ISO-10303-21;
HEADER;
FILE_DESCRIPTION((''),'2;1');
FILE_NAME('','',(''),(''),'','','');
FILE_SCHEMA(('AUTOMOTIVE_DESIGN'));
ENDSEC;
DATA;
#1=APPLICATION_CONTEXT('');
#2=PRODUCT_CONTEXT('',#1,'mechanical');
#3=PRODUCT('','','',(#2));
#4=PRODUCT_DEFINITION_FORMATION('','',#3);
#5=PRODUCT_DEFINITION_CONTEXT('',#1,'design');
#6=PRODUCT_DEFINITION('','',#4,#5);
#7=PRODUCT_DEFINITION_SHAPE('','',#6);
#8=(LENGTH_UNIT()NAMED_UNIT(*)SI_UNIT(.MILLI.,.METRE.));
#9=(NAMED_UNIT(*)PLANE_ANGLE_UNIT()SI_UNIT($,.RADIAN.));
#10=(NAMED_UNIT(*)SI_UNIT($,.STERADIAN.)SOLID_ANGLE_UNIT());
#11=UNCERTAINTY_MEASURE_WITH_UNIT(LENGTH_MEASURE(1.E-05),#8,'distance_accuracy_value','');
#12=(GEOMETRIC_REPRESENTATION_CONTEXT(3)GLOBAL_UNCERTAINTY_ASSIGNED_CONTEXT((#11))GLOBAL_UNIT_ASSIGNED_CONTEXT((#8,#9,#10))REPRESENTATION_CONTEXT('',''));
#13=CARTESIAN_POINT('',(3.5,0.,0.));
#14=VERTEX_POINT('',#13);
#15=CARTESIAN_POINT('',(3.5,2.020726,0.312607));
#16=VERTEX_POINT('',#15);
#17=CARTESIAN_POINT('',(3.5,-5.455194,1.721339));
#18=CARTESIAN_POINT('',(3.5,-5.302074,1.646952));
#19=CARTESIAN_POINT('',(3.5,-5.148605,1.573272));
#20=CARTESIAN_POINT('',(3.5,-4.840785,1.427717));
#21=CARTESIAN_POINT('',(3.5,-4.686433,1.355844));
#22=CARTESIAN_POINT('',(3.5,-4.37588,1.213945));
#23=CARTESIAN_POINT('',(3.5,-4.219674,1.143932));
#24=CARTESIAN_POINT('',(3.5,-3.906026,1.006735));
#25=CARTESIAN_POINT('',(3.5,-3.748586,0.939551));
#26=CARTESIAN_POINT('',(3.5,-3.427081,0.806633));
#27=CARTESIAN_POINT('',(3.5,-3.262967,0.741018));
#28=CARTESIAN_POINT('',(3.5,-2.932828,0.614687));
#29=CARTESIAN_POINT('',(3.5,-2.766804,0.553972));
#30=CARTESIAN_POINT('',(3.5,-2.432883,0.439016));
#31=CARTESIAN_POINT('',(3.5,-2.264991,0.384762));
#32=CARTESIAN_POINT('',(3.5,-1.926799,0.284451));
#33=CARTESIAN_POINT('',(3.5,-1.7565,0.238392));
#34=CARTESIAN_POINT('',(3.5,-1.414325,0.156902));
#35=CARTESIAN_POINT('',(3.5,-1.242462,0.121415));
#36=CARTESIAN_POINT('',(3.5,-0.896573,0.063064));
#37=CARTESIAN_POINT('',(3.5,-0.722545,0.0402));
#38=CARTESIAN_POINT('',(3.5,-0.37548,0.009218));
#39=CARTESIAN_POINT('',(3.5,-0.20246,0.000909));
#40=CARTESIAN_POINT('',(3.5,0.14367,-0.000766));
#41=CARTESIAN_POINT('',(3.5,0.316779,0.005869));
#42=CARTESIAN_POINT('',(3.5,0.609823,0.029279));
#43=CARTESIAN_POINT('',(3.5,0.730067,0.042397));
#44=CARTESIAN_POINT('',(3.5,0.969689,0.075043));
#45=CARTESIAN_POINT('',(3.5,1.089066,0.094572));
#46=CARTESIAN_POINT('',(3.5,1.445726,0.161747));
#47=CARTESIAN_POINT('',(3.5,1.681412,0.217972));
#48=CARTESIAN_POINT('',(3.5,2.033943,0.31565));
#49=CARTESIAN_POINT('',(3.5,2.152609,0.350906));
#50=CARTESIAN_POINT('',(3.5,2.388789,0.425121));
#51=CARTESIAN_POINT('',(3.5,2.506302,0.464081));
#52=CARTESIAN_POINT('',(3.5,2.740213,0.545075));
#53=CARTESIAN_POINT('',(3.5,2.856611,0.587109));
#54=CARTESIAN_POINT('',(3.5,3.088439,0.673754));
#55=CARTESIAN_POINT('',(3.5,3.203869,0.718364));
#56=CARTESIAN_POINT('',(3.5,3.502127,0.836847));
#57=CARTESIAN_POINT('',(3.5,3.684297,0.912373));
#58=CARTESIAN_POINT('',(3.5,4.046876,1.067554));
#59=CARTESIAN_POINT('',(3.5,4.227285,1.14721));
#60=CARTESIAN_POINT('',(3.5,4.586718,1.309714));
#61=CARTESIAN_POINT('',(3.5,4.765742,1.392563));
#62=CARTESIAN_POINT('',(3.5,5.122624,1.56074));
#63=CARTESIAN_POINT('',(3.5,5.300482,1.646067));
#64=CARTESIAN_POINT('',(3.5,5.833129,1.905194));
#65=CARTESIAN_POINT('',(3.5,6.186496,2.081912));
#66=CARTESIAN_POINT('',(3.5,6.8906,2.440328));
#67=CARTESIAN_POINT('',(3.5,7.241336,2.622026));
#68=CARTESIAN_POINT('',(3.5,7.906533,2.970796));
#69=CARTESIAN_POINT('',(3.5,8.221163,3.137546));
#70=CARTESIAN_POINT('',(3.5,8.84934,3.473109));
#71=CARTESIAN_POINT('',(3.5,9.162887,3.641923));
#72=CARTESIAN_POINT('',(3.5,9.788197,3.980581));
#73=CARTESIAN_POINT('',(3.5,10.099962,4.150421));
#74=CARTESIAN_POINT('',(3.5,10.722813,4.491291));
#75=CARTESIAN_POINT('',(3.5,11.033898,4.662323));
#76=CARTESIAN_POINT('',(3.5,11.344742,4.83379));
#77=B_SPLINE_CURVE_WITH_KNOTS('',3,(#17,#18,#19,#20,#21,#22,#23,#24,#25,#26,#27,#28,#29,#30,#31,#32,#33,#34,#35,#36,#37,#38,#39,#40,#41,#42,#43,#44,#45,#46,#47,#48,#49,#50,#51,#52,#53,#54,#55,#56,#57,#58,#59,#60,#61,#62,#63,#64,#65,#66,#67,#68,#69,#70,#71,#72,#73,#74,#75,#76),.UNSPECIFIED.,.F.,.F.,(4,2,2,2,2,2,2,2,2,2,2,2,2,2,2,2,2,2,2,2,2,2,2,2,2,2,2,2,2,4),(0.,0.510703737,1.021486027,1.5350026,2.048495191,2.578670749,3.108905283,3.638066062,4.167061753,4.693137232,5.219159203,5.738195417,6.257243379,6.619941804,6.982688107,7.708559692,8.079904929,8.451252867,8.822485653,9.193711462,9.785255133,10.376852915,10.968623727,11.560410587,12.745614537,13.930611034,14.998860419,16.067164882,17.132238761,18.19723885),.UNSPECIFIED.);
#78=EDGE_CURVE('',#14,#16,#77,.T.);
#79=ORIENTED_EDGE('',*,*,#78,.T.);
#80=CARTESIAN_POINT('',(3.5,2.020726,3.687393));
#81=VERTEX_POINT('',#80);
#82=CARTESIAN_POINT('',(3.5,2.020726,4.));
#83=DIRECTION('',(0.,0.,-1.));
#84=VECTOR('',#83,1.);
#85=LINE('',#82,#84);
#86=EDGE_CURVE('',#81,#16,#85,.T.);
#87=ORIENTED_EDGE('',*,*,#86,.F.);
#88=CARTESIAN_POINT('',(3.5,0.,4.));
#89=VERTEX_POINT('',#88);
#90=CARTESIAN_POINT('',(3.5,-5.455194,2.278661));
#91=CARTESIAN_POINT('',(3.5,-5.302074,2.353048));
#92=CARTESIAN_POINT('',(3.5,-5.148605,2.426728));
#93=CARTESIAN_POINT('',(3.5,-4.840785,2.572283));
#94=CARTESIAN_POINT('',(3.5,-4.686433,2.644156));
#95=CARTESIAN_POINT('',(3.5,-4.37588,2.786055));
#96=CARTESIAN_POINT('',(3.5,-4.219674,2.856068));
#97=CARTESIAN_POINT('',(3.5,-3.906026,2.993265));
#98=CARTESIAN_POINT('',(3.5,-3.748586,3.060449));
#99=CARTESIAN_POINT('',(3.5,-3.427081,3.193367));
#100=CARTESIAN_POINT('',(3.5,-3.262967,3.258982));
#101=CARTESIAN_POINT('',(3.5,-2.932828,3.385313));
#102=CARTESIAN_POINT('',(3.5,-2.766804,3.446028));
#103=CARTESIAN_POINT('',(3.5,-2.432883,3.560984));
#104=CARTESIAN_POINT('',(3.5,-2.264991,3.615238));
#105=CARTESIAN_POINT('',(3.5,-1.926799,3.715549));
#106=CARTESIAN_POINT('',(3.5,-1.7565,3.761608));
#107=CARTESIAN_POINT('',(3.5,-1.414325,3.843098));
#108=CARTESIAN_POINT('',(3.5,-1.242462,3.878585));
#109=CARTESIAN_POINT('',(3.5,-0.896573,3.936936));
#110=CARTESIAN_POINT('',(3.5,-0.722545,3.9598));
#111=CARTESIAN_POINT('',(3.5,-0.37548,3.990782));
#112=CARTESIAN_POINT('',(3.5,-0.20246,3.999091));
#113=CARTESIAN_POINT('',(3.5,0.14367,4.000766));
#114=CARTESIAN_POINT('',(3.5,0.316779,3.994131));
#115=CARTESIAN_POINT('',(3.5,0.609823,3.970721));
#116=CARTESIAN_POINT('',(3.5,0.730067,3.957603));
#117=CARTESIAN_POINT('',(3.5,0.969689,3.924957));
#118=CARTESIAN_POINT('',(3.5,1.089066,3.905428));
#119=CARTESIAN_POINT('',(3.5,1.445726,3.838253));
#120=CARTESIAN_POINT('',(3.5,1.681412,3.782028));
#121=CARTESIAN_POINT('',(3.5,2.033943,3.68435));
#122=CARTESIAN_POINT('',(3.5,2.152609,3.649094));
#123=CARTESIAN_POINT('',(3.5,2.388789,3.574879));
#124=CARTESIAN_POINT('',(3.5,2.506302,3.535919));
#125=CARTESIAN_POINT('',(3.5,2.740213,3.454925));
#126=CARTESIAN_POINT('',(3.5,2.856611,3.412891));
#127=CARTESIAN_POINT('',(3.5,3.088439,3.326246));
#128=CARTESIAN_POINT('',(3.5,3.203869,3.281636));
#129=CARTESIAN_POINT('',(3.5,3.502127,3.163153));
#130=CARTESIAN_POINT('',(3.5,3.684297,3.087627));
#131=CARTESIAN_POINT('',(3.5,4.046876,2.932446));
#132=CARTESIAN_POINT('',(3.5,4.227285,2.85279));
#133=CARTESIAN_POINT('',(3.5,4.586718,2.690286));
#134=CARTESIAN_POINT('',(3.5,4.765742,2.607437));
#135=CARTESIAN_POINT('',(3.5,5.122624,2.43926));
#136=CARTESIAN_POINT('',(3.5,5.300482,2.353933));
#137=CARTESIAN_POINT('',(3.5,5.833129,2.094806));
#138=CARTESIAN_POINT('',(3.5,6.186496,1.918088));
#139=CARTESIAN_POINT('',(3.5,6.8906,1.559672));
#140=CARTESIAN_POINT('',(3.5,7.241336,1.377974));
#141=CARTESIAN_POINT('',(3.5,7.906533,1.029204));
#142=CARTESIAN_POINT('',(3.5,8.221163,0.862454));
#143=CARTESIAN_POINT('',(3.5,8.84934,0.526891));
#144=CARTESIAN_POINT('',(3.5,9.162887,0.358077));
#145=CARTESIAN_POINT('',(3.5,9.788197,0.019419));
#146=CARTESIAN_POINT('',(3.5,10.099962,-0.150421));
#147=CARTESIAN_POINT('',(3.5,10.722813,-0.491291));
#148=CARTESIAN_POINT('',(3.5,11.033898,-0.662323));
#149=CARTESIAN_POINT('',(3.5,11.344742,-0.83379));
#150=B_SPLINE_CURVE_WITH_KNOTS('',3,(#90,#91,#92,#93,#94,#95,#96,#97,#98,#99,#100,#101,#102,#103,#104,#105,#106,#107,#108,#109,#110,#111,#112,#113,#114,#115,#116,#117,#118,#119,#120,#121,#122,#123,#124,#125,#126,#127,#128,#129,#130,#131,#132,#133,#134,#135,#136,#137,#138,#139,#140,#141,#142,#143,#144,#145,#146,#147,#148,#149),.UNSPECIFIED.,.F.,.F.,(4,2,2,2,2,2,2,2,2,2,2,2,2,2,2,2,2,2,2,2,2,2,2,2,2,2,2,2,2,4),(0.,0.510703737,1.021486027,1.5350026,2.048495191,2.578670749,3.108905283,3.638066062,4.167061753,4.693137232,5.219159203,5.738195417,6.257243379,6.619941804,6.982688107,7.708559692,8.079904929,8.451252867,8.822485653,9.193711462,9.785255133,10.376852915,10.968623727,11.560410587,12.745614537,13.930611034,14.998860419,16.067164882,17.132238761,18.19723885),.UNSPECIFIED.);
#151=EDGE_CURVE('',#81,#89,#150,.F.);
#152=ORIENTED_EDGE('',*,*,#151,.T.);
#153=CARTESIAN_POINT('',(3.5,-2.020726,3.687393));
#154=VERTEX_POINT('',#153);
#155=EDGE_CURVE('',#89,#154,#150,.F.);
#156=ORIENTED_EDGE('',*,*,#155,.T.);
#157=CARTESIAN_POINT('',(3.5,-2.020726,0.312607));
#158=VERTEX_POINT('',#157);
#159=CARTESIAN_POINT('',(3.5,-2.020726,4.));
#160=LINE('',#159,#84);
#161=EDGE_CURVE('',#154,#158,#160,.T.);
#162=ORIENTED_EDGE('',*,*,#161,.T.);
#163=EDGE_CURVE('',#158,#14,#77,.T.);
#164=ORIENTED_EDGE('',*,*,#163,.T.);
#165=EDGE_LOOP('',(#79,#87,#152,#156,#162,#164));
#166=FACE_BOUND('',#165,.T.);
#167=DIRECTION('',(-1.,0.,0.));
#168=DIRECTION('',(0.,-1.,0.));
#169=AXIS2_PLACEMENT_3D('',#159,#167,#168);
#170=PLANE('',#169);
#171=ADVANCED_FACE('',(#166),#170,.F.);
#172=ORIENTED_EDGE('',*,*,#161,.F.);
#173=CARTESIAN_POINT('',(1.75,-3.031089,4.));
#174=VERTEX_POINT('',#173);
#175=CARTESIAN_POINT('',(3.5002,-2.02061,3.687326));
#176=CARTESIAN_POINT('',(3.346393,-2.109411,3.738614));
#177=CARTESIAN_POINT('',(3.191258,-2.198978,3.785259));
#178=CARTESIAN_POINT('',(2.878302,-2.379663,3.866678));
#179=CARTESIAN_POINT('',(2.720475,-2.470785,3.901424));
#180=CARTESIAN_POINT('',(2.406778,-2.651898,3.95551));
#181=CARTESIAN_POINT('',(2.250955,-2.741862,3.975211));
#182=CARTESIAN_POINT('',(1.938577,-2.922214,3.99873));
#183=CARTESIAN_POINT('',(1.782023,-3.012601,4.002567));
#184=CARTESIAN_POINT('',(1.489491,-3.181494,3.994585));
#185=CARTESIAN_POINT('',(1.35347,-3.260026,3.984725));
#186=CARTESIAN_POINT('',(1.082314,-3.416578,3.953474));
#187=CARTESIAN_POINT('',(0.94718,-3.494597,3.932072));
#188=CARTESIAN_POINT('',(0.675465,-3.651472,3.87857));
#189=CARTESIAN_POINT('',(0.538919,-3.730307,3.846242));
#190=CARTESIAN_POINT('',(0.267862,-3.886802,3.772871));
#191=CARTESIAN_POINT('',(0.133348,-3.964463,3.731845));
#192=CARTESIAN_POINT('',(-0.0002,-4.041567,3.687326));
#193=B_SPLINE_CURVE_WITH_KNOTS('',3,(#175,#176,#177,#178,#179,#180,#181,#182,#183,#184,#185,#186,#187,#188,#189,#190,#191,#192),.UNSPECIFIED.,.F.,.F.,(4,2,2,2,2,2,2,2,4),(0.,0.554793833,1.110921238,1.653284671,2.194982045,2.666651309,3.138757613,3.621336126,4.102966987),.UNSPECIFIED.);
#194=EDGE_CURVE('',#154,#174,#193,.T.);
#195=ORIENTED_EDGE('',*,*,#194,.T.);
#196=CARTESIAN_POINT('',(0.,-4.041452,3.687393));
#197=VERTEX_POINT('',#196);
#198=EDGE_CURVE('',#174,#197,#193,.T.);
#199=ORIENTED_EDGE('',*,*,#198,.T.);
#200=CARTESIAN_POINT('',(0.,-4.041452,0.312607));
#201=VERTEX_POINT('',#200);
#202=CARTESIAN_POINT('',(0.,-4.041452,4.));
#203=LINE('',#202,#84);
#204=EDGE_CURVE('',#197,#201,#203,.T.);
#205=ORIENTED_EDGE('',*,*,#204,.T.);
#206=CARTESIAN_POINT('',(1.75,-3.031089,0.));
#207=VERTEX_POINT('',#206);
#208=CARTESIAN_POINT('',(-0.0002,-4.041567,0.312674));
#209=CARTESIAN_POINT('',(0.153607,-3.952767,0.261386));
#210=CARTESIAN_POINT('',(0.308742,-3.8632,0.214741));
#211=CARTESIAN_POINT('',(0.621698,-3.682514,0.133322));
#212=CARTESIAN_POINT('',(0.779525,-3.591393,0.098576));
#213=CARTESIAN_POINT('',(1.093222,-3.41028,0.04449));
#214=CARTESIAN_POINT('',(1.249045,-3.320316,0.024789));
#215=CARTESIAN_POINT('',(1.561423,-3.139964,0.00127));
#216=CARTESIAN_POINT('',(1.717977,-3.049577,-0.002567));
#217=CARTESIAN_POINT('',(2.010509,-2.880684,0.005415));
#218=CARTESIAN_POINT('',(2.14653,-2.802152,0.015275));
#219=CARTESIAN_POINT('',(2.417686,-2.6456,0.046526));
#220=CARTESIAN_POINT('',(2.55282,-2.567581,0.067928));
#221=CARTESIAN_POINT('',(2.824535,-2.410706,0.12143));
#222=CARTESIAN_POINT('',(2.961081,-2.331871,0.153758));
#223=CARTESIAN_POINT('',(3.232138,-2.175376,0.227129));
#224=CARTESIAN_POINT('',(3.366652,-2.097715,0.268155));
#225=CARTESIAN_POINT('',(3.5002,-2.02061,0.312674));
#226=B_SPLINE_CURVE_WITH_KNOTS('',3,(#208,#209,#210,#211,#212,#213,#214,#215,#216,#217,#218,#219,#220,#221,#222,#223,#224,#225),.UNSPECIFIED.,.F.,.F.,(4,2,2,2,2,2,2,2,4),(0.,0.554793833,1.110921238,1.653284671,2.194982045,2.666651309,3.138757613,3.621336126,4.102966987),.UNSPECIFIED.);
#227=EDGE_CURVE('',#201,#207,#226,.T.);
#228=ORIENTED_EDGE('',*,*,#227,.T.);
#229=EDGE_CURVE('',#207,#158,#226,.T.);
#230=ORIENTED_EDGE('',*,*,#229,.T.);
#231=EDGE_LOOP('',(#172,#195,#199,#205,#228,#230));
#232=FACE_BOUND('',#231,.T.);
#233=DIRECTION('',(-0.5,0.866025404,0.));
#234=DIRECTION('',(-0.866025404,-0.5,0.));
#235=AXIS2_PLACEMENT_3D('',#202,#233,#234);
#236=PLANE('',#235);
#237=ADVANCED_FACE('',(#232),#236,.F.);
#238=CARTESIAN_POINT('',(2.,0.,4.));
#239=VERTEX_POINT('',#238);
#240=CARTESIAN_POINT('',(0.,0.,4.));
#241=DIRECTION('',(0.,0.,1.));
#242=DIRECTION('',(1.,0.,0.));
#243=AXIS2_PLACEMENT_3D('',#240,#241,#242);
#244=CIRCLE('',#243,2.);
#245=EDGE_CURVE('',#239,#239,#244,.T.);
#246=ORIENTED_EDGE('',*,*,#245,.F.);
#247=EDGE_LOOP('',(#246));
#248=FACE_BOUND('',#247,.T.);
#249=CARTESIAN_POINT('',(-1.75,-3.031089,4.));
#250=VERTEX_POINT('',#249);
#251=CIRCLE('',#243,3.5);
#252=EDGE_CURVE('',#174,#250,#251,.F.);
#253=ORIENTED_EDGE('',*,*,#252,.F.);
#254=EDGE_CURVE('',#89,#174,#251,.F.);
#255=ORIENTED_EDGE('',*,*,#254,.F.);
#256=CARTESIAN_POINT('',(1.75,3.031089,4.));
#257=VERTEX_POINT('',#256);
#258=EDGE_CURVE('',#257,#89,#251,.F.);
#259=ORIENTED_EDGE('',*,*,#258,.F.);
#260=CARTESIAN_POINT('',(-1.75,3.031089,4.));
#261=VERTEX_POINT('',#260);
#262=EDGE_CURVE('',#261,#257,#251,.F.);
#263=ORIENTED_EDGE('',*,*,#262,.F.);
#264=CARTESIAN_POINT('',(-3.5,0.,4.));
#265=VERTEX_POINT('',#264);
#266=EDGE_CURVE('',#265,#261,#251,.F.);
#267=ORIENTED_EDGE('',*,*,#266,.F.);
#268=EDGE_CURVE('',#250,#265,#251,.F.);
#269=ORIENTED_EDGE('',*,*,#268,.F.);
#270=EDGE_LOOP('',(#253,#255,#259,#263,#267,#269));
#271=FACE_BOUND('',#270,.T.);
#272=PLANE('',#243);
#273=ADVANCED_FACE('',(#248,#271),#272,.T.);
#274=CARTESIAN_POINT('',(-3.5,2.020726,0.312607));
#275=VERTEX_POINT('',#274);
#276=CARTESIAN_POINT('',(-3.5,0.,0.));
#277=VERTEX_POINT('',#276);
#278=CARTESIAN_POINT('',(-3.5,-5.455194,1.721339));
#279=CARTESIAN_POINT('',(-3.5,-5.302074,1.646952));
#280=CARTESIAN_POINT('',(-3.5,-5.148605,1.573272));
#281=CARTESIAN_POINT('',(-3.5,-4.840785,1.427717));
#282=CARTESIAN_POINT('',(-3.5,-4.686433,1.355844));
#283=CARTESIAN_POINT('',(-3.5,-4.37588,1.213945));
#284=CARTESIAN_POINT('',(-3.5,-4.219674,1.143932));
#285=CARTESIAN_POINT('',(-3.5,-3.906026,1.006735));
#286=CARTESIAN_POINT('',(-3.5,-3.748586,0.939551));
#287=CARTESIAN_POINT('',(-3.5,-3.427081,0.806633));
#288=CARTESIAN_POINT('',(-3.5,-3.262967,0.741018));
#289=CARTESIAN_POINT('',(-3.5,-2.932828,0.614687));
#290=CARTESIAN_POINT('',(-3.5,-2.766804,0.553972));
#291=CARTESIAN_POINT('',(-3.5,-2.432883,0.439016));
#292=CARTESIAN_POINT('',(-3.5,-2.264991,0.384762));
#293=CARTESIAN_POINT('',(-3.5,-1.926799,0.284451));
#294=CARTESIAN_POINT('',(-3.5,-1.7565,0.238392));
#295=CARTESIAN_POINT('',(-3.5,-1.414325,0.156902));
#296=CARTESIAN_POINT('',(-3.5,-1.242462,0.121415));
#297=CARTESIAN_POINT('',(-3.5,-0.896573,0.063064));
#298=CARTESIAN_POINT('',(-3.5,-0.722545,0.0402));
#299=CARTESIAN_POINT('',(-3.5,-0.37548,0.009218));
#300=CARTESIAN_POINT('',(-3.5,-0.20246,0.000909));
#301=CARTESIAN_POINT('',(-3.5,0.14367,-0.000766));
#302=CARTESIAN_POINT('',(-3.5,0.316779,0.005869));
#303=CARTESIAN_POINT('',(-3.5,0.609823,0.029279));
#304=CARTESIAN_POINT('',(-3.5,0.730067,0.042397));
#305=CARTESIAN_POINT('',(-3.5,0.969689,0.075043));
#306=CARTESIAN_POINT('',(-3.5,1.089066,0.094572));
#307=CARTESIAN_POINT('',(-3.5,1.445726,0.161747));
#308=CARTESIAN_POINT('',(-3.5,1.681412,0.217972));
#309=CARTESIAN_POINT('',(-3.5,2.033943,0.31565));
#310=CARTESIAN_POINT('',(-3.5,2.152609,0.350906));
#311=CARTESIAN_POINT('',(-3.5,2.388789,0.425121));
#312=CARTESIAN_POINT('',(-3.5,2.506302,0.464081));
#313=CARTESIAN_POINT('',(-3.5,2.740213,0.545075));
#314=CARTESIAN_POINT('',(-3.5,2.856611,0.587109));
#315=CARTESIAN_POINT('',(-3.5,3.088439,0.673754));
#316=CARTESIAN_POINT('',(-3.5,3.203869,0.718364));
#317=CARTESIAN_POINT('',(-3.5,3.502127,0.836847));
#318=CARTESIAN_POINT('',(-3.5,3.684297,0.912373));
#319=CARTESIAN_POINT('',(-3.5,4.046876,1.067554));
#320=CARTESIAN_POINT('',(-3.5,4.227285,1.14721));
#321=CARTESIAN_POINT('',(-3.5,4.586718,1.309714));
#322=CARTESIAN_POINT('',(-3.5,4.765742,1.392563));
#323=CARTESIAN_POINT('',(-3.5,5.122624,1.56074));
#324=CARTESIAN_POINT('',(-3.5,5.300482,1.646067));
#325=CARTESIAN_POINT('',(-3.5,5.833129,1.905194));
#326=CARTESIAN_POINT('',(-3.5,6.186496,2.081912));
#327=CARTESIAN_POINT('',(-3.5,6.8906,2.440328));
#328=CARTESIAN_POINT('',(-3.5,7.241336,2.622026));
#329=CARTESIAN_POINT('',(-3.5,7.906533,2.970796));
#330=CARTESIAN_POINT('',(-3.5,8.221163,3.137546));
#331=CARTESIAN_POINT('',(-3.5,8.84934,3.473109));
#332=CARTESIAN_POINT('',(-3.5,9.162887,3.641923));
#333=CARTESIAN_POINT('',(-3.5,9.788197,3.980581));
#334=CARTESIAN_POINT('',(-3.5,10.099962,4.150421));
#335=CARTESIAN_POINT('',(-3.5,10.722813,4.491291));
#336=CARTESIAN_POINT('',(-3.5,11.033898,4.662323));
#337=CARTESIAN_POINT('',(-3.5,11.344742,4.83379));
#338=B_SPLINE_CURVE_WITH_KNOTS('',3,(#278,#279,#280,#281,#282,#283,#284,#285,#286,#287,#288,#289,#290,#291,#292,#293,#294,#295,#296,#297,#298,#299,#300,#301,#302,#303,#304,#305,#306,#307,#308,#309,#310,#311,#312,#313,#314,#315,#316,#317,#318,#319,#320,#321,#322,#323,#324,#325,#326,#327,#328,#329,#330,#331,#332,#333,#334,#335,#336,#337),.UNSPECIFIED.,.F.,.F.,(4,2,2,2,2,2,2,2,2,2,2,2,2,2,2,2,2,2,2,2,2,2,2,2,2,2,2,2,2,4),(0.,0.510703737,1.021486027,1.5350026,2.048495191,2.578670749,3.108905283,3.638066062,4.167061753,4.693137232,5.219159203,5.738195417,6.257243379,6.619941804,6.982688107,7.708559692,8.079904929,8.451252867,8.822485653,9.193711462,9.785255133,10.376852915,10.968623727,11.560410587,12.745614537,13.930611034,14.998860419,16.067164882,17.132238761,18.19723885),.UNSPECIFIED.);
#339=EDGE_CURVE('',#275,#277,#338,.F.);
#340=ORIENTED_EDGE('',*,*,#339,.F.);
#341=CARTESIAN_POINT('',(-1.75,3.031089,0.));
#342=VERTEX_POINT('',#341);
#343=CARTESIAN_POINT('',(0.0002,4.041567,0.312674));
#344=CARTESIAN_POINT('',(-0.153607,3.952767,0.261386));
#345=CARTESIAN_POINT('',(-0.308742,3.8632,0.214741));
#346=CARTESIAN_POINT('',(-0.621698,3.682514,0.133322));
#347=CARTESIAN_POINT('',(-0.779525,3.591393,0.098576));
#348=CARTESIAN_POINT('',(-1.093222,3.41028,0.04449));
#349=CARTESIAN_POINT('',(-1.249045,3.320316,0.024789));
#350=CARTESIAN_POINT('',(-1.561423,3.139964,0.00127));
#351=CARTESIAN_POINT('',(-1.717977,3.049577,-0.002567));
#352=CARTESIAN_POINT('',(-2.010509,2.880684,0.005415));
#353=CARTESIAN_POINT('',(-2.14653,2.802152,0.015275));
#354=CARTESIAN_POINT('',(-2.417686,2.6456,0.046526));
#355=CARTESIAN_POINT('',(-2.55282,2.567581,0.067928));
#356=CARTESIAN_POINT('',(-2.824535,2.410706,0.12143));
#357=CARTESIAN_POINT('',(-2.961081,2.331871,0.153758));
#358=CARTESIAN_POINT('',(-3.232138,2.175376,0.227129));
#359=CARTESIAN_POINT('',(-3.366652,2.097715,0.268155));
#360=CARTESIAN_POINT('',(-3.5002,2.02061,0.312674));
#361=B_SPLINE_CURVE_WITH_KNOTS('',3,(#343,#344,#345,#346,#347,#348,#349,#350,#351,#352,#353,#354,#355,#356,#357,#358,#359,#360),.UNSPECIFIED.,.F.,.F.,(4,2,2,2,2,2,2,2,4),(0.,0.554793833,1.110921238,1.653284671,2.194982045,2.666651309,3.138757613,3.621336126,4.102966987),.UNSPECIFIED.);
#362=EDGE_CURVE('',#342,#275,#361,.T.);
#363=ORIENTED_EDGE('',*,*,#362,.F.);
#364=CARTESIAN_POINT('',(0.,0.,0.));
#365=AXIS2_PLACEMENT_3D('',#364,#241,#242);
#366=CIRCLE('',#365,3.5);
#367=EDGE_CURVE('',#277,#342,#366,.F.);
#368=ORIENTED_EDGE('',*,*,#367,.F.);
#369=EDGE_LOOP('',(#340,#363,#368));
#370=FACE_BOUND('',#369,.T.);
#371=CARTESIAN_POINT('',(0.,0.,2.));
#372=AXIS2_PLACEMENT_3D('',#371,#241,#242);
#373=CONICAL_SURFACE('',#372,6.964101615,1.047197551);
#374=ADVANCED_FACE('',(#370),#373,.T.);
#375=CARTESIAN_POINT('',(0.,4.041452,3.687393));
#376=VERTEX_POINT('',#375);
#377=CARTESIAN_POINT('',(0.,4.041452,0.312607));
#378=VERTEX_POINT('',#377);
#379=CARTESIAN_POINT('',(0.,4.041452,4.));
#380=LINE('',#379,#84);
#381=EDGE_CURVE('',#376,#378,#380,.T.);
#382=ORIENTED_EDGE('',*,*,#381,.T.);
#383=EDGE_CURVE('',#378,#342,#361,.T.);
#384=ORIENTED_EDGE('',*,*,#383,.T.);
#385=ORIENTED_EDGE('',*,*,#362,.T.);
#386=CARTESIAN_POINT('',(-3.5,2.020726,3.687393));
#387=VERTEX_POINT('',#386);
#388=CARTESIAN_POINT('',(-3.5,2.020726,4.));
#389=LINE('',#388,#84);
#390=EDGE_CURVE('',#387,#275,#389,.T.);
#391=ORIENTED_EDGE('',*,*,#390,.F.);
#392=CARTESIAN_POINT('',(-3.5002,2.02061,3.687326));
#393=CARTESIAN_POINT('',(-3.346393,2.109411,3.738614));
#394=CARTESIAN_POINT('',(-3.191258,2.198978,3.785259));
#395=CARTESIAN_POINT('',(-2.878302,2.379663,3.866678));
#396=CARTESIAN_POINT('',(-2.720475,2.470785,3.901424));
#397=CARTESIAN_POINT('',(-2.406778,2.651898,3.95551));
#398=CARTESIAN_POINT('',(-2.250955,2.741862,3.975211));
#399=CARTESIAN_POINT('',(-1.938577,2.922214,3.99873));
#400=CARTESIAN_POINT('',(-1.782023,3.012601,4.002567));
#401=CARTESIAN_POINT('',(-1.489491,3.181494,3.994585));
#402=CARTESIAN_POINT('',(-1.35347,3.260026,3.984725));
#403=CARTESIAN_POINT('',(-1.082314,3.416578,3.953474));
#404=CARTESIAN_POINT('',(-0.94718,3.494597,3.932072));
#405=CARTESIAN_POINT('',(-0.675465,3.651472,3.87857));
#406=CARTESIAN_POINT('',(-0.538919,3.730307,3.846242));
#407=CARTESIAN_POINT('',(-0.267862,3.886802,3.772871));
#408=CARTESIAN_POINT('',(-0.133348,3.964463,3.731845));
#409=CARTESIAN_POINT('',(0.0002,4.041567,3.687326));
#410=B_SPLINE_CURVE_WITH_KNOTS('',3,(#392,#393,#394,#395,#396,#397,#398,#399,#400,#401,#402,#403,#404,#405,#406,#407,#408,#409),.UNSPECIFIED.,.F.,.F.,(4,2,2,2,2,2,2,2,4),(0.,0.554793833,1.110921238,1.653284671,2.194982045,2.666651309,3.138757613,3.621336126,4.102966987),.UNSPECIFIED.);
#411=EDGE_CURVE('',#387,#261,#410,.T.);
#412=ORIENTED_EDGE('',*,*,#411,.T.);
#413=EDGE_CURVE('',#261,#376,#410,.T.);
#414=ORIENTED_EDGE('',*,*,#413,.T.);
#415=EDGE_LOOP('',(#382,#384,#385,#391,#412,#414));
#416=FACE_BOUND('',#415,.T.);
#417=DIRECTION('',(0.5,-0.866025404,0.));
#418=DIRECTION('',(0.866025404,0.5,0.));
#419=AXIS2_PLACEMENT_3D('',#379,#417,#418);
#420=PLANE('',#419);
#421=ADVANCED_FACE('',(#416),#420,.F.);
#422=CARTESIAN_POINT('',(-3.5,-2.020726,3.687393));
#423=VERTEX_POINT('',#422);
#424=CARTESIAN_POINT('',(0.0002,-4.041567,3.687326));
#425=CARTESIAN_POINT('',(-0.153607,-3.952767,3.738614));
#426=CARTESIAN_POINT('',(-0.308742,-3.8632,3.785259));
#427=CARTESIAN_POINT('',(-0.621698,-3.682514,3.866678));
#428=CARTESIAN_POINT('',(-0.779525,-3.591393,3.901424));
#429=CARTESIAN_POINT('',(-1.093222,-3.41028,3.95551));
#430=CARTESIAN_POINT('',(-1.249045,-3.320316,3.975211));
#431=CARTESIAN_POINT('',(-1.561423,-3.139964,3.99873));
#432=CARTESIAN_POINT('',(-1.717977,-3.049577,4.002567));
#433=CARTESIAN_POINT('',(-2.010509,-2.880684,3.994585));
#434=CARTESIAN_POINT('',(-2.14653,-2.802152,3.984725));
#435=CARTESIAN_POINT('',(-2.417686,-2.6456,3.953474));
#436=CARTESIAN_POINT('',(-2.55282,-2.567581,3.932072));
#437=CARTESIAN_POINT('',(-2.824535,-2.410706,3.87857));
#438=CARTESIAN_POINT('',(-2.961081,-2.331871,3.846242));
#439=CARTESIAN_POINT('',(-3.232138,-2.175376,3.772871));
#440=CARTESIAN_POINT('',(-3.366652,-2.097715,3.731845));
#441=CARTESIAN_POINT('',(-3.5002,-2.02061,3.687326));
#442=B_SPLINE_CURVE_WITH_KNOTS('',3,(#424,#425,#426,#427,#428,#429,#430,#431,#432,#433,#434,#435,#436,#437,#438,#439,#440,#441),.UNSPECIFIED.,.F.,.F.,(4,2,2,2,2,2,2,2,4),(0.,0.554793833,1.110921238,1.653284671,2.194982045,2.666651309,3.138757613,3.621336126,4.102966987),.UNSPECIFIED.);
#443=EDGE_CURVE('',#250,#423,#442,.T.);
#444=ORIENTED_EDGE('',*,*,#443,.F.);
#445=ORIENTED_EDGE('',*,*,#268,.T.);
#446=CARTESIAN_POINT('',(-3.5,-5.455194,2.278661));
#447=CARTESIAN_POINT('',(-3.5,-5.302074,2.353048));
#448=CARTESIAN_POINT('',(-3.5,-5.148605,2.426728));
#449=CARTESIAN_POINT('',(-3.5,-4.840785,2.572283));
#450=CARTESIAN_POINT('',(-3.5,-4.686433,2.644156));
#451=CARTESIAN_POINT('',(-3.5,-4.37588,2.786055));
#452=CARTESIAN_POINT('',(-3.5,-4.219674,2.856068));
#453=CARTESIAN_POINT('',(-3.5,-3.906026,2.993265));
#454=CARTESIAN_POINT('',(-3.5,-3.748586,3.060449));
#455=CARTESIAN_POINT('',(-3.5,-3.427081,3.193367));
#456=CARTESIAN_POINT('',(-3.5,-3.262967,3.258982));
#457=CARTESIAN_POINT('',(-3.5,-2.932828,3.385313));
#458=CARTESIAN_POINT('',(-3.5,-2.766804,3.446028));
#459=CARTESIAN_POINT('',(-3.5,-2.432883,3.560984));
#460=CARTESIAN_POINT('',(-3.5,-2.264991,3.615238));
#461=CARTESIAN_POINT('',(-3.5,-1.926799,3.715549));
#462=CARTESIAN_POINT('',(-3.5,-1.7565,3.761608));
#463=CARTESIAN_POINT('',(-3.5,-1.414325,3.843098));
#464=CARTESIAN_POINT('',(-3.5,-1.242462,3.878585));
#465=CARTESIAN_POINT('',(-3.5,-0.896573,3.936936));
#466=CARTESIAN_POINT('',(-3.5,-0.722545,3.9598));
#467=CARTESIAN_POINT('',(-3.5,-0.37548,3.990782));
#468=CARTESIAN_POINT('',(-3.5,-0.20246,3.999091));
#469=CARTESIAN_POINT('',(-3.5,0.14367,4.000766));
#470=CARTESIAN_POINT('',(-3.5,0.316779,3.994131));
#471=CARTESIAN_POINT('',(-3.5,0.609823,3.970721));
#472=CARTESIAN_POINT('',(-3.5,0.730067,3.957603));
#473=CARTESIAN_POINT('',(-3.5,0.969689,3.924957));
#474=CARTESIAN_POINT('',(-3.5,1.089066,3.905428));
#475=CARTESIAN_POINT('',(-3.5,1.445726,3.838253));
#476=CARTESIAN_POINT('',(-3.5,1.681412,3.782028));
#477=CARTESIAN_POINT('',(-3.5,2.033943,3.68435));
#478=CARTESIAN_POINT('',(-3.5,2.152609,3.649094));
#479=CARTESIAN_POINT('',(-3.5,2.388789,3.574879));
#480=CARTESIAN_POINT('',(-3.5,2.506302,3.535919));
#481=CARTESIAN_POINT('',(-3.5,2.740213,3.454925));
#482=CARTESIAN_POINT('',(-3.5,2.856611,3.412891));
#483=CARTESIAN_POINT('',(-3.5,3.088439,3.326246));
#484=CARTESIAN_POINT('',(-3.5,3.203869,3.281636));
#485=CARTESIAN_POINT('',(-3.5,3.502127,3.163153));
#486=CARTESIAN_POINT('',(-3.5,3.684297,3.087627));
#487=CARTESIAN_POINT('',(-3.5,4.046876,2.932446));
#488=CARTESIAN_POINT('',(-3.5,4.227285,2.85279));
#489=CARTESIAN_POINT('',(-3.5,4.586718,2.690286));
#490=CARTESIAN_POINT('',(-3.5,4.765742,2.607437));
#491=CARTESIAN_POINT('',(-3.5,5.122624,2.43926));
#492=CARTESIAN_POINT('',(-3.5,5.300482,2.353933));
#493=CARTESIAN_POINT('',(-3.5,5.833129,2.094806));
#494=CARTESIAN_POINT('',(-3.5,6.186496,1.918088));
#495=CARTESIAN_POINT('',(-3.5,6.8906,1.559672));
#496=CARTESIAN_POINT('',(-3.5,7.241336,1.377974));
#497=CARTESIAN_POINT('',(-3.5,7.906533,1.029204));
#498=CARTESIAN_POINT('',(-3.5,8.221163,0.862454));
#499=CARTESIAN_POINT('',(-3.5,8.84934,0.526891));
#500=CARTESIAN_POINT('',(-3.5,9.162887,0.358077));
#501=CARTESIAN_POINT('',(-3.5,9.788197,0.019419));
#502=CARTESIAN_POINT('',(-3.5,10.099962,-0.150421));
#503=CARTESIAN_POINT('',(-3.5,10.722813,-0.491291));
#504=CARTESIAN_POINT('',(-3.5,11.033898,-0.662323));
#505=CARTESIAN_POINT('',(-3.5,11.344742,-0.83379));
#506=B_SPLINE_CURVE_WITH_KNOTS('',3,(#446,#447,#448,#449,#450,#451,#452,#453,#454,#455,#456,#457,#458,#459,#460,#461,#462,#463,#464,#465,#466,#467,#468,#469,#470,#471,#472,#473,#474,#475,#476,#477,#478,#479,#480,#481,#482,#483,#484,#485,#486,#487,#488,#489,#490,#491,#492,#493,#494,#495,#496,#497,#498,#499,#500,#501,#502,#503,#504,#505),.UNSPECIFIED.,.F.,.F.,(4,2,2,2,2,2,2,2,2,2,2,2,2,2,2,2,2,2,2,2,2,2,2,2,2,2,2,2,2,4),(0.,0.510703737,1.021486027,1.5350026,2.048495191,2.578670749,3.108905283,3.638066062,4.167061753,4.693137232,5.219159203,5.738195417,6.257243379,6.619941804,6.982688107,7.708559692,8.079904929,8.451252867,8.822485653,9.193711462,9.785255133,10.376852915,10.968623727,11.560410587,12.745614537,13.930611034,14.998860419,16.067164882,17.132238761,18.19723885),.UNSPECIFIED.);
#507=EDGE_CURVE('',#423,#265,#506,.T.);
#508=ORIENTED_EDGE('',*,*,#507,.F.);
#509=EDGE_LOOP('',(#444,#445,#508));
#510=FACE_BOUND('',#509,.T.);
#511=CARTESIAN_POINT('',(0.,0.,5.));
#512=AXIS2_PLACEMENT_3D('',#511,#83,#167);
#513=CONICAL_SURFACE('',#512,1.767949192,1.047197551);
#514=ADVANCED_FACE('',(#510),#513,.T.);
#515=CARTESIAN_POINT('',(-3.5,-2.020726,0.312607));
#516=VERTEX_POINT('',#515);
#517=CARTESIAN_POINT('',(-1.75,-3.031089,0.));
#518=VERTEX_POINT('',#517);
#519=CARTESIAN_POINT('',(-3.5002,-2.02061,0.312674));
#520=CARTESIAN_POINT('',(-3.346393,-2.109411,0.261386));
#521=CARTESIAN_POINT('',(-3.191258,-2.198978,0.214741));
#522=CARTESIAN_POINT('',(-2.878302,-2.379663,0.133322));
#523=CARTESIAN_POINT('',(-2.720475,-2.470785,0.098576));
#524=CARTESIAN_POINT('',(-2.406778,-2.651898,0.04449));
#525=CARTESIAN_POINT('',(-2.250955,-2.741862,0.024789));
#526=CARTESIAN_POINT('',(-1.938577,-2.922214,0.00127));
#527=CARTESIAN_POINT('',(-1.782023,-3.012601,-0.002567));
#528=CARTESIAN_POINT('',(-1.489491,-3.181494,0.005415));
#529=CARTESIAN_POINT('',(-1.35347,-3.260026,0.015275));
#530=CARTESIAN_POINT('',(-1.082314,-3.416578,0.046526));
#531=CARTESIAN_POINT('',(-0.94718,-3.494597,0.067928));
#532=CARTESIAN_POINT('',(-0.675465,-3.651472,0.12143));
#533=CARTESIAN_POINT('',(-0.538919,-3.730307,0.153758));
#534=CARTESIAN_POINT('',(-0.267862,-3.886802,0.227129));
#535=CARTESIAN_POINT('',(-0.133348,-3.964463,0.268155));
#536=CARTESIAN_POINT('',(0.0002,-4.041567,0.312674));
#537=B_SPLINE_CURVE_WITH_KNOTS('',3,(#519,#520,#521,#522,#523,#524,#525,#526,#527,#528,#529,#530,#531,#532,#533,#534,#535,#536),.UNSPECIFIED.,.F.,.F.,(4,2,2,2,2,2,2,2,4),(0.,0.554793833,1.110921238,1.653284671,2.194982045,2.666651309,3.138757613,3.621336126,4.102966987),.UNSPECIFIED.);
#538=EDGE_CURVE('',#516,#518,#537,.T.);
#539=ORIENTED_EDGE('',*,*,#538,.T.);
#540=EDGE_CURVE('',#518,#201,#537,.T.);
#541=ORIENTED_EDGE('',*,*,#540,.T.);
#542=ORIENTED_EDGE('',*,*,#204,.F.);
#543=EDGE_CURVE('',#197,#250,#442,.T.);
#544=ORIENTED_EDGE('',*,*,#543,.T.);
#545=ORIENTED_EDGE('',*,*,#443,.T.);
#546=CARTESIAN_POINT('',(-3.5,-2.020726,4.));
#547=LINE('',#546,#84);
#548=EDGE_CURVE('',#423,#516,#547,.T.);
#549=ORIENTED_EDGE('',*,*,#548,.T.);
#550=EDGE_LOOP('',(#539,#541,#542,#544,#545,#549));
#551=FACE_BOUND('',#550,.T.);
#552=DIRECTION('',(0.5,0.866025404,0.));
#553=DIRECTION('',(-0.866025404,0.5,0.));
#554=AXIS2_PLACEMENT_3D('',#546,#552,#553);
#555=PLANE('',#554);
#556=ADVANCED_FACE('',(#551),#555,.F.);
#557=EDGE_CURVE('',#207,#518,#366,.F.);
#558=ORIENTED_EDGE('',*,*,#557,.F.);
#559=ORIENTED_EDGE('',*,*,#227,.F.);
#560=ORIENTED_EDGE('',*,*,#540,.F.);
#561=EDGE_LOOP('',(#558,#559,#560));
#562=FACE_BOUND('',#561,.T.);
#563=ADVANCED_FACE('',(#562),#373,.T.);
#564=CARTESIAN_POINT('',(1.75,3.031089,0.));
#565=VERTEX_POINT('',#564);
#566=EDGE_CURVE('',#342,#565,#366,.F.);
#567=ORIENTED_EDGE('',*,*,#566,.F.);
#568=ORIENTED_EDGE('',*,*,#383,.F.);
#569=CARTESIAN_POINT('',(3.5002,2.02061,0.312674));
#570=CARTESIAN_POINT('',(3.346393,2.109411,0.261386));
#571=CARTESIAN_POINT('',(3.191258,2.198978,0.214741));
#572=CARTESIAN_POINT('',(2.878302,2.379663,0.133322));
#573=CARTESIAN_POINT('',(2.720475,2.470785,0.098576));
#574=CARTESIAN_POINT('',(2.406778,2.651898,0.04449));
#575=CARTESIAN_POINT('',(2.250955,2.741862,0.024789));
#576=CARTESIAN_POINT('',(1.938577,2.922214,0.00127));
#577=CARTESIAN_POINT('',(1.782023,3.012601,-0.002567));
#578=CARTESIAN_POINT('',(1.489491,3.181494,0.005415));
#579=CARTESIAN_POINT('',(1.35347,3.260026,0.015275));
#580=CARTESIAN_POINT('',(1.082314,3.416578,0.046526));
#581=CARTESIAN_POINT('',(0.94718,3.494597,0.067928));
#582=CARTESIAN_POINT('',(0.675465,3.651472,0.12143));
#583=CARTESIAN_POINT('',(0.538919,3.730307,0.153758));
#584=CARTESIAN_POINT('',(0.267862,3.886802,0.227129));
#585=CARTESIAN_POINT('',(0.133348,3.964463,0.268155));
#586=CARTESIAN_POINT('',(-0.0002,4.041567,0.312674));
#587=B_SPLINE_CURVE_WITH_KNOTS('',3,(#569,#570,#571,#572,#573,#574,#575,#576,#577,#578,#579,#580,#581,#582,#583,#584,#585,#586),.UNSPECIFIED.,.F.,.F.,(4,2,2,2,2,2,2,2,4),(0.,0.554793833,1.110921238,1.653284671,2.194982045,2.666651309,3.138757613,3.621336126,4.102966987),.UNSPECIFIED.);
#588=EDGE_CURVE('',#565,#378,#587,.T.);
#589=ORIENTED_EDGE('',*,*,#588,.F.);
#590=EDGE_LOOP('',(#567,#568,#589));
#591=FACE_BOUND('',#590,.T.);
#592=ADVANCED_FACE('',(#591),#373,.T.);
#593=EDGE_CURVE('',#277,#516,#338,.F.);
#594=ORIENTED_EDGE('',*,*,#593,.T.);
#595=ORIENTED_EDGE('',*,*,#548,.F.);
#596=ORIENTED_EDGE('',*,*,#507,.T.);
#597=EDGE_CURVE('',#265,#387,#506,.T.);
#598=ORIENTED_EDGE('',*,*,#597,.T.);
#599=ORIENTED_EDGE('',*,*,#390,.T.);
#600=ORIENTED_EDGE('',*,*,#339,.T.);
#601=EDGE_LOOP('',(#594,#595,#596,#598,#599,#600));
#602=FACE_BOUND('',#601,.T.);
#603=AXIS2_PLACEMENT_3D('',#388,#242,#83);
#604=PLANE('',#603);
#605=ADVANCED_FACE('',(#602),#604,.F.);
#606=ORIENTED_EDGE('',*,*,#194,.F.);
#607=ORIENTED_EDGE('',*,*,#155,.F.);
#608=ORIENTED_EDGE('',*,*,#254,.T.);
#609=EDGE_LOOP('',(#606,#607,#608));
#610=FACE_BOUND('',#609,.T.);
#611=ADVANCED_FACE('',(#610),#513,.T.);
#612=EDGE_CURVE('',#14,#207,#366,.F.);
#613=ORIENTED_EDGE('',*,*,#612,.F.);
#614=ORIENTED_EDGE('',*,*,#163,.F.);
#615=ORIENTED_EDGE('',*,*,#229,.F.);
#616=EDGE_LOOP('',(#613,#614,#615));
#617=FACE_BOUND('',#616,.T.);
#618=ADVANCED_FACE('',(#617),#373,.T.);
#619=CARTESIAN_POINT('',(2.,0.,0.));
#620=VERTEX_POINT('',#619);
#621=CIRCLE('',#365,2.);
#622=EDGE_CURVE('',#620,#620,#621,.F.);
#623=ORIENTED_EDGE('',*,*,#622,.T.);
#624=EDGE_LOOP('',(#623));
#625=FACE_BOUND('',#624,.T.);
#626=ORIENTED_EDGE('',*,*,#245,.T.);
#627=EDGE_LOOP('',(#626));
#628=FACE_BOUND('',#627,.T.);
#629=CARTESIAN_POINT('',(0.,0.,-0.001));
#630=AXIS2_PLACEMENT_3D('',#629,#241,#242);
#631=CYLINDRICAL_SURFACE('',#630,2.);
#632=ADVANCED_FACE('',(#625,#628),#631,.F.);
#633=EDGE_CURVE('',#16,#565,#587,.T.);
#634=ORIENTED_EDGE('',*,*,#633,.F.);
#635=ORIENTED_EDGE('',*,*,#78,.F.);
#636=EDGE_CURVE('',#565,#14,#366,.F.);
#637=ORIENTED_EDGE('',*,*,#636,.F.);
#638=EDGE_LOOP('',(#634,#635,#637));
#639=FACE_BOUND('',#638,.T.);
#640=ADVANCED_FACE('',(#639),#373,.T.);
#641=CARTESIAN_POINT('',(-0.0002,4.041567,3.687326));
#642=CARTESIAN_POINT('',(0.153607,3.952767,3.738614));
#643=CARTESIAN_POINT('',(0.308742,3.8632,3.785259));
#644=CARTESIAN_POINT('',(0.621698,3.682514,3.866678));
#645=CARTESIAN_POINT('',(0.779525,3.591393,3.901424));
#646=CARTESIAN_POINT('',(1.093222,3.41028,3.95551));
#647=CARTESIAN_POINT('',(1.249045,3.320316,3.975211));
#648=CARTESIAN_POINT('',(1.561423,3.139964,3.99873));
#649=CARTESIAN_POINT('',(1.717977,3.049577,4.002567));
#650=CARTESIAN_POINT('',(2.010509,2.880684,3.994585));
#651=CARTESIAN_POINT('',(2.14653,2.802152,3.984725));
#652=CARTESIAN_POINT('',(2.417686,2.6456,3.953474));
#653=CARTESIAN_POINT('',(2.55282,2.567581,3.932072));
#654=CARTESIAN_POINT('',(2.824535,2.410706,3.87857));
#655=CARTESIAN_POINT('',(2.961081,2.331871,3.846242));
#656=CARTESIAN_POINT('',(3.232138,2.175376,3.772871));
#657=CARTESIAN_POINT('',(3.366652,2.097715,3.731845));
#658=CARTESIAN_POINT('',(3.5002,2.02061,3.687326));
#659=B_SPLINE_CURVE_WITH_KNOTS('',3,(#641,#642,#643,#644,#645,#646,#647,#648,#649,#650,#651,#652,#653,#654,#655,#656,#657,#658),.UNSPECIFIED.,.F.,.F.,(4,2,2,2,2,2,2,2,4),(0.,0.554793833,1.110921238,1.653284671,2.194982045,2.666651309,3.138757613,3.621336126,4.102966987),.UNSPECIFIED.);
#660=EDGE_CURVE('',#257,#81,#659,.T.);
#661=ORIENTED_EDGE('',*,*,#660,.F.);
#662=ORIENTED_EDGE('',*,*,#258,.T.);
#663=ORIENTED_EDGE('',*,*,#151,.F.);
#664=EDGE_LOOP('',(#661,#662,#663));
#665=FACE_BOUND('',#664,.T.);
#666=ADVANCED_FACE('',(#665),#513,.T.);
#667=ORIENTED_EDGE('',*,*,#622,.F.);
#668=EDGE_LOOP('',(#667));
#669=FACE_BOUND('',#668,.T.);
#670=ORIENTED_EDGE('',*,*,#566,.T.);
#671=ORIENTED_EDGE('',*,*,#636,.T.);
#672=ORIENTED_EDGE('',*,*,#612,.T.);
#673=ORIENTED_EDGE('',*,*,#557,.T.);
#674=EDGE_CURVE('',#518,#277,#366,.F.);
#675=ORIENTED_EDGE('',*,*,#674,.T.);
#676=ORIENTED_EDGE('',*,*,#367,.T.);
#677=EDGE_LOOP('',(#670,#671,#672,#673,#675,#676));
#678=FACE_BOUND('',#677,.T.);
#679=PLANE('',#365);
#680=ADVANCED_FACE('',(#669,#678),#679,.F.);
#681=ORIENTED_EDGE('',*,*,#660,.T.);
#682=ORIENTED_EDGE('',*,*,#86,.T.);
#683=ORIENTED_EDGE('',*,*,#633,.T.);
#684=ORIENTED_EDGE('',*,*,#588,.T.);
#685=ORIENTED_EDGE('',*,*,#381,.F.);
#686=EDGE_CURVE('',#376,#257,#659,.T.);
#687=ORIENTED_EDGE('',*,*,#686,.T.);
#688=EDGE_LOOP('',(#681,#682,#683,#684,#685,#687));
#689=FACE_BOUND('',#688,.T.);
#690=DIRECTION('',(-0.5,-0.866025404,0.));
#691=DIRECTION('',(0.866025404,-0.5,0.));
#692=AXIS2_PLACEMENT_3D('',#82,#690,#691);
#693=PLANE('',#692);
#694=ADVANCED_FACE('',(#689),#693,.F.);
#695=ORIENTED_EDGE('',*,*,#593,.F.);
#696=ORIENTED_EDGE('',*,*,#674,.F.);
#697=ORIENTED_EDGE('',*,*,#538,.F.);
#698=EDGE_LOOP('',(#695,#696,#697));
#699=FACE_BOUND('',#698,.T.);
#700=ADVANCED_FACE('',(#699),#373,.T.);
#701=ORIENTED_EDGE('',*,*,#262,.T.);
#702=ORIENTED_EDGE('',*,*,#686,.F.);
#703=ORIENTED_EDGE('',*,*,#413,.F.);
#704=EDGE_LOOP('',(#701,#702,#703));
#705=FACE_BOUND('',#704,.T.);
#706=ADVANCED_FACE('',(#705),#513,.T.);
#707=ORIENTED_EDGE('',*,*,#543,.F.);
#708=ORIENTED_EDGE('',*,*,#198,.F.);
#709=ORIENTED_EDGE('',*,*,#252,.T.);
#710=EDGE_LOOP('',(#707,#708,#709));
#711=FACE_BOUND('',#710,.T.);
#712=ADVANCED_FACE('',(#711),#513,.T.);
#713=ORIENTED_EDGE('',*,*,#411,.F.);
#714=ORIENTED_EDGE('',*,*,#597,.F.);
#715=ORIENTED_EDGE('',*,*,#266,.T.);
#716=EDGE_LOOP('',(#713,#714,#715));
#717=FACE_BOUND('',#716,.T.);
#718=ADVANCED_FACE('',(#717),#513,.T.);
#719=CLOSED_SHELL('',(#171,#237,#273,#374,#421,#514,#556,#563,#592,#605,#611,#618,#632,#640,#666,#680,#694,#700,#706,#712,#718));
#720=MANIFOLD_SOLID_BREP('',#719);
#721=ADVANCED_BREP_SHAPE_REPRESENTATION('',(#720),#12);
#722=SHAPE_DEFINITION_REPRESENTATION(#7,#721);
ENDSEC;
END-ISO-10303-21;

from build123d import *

# Parameters (mm, degrees)
BOSS_EXTRU_1_DEPTH      = 4
ENL_V_MAT_EXTRU_1_REACH = 6
ESQUISSE2_R             = 2


with BuildPart() as part:
    # Esquisse1 → Boss.-Extru.1 (new body)
    with BuildSketch(Plane.XY):
        Polygon((0, 4.041451884), (-3.5, 2.020725942), (-3.5, -2.020725942), (0, -4.041451884), (3.5, -2.020725942), (3.5, 2.020725942), align=None)
    extrude(amount=BOSS_EXTRU_1_DEPTH)

    # Esquisse2 → Enlèv. mat.-Extru.1 (cut, up to next)
    with BuildSketch(Plane.XY.offset(4), mode=Mode.PRIVATE) as enl_v_mat_extru_1_sk1:
        Circle(ESQUISSE2_R)
    enl_v_mat_extru_1_tool1 = extrude(enl_v_mat_extru_1_sk1.sketch, amount=-ENL_V_MAT_EXTRU_1_REACH, mode=Mode.PRIVATE) & part.part
    add(enl_v_mat_extru_1_tool1.solids().sort_by_distance((0, 0, 4))[0], mode=Mode.SUBTRACT)

    # Esquisse4 → Enlèvement de matière-Révolution8 (revolve, cut)
    with BuildSketch(Plane(origin=(0, 0, 0), x_dir=(1, 0, 0), z_dir=(0, 1, 0))):
        Polygon((-6.964101615, -2), (-1.767949192, 1), (-7.964101615, 1), (-7.964101615, -5), (-1.767949192, -5), align=None)
    revolve(axis=Axis((0, 0, 0), (0, 0, 1)), mode=Mode.SUBTRACT)


solid = part.part
